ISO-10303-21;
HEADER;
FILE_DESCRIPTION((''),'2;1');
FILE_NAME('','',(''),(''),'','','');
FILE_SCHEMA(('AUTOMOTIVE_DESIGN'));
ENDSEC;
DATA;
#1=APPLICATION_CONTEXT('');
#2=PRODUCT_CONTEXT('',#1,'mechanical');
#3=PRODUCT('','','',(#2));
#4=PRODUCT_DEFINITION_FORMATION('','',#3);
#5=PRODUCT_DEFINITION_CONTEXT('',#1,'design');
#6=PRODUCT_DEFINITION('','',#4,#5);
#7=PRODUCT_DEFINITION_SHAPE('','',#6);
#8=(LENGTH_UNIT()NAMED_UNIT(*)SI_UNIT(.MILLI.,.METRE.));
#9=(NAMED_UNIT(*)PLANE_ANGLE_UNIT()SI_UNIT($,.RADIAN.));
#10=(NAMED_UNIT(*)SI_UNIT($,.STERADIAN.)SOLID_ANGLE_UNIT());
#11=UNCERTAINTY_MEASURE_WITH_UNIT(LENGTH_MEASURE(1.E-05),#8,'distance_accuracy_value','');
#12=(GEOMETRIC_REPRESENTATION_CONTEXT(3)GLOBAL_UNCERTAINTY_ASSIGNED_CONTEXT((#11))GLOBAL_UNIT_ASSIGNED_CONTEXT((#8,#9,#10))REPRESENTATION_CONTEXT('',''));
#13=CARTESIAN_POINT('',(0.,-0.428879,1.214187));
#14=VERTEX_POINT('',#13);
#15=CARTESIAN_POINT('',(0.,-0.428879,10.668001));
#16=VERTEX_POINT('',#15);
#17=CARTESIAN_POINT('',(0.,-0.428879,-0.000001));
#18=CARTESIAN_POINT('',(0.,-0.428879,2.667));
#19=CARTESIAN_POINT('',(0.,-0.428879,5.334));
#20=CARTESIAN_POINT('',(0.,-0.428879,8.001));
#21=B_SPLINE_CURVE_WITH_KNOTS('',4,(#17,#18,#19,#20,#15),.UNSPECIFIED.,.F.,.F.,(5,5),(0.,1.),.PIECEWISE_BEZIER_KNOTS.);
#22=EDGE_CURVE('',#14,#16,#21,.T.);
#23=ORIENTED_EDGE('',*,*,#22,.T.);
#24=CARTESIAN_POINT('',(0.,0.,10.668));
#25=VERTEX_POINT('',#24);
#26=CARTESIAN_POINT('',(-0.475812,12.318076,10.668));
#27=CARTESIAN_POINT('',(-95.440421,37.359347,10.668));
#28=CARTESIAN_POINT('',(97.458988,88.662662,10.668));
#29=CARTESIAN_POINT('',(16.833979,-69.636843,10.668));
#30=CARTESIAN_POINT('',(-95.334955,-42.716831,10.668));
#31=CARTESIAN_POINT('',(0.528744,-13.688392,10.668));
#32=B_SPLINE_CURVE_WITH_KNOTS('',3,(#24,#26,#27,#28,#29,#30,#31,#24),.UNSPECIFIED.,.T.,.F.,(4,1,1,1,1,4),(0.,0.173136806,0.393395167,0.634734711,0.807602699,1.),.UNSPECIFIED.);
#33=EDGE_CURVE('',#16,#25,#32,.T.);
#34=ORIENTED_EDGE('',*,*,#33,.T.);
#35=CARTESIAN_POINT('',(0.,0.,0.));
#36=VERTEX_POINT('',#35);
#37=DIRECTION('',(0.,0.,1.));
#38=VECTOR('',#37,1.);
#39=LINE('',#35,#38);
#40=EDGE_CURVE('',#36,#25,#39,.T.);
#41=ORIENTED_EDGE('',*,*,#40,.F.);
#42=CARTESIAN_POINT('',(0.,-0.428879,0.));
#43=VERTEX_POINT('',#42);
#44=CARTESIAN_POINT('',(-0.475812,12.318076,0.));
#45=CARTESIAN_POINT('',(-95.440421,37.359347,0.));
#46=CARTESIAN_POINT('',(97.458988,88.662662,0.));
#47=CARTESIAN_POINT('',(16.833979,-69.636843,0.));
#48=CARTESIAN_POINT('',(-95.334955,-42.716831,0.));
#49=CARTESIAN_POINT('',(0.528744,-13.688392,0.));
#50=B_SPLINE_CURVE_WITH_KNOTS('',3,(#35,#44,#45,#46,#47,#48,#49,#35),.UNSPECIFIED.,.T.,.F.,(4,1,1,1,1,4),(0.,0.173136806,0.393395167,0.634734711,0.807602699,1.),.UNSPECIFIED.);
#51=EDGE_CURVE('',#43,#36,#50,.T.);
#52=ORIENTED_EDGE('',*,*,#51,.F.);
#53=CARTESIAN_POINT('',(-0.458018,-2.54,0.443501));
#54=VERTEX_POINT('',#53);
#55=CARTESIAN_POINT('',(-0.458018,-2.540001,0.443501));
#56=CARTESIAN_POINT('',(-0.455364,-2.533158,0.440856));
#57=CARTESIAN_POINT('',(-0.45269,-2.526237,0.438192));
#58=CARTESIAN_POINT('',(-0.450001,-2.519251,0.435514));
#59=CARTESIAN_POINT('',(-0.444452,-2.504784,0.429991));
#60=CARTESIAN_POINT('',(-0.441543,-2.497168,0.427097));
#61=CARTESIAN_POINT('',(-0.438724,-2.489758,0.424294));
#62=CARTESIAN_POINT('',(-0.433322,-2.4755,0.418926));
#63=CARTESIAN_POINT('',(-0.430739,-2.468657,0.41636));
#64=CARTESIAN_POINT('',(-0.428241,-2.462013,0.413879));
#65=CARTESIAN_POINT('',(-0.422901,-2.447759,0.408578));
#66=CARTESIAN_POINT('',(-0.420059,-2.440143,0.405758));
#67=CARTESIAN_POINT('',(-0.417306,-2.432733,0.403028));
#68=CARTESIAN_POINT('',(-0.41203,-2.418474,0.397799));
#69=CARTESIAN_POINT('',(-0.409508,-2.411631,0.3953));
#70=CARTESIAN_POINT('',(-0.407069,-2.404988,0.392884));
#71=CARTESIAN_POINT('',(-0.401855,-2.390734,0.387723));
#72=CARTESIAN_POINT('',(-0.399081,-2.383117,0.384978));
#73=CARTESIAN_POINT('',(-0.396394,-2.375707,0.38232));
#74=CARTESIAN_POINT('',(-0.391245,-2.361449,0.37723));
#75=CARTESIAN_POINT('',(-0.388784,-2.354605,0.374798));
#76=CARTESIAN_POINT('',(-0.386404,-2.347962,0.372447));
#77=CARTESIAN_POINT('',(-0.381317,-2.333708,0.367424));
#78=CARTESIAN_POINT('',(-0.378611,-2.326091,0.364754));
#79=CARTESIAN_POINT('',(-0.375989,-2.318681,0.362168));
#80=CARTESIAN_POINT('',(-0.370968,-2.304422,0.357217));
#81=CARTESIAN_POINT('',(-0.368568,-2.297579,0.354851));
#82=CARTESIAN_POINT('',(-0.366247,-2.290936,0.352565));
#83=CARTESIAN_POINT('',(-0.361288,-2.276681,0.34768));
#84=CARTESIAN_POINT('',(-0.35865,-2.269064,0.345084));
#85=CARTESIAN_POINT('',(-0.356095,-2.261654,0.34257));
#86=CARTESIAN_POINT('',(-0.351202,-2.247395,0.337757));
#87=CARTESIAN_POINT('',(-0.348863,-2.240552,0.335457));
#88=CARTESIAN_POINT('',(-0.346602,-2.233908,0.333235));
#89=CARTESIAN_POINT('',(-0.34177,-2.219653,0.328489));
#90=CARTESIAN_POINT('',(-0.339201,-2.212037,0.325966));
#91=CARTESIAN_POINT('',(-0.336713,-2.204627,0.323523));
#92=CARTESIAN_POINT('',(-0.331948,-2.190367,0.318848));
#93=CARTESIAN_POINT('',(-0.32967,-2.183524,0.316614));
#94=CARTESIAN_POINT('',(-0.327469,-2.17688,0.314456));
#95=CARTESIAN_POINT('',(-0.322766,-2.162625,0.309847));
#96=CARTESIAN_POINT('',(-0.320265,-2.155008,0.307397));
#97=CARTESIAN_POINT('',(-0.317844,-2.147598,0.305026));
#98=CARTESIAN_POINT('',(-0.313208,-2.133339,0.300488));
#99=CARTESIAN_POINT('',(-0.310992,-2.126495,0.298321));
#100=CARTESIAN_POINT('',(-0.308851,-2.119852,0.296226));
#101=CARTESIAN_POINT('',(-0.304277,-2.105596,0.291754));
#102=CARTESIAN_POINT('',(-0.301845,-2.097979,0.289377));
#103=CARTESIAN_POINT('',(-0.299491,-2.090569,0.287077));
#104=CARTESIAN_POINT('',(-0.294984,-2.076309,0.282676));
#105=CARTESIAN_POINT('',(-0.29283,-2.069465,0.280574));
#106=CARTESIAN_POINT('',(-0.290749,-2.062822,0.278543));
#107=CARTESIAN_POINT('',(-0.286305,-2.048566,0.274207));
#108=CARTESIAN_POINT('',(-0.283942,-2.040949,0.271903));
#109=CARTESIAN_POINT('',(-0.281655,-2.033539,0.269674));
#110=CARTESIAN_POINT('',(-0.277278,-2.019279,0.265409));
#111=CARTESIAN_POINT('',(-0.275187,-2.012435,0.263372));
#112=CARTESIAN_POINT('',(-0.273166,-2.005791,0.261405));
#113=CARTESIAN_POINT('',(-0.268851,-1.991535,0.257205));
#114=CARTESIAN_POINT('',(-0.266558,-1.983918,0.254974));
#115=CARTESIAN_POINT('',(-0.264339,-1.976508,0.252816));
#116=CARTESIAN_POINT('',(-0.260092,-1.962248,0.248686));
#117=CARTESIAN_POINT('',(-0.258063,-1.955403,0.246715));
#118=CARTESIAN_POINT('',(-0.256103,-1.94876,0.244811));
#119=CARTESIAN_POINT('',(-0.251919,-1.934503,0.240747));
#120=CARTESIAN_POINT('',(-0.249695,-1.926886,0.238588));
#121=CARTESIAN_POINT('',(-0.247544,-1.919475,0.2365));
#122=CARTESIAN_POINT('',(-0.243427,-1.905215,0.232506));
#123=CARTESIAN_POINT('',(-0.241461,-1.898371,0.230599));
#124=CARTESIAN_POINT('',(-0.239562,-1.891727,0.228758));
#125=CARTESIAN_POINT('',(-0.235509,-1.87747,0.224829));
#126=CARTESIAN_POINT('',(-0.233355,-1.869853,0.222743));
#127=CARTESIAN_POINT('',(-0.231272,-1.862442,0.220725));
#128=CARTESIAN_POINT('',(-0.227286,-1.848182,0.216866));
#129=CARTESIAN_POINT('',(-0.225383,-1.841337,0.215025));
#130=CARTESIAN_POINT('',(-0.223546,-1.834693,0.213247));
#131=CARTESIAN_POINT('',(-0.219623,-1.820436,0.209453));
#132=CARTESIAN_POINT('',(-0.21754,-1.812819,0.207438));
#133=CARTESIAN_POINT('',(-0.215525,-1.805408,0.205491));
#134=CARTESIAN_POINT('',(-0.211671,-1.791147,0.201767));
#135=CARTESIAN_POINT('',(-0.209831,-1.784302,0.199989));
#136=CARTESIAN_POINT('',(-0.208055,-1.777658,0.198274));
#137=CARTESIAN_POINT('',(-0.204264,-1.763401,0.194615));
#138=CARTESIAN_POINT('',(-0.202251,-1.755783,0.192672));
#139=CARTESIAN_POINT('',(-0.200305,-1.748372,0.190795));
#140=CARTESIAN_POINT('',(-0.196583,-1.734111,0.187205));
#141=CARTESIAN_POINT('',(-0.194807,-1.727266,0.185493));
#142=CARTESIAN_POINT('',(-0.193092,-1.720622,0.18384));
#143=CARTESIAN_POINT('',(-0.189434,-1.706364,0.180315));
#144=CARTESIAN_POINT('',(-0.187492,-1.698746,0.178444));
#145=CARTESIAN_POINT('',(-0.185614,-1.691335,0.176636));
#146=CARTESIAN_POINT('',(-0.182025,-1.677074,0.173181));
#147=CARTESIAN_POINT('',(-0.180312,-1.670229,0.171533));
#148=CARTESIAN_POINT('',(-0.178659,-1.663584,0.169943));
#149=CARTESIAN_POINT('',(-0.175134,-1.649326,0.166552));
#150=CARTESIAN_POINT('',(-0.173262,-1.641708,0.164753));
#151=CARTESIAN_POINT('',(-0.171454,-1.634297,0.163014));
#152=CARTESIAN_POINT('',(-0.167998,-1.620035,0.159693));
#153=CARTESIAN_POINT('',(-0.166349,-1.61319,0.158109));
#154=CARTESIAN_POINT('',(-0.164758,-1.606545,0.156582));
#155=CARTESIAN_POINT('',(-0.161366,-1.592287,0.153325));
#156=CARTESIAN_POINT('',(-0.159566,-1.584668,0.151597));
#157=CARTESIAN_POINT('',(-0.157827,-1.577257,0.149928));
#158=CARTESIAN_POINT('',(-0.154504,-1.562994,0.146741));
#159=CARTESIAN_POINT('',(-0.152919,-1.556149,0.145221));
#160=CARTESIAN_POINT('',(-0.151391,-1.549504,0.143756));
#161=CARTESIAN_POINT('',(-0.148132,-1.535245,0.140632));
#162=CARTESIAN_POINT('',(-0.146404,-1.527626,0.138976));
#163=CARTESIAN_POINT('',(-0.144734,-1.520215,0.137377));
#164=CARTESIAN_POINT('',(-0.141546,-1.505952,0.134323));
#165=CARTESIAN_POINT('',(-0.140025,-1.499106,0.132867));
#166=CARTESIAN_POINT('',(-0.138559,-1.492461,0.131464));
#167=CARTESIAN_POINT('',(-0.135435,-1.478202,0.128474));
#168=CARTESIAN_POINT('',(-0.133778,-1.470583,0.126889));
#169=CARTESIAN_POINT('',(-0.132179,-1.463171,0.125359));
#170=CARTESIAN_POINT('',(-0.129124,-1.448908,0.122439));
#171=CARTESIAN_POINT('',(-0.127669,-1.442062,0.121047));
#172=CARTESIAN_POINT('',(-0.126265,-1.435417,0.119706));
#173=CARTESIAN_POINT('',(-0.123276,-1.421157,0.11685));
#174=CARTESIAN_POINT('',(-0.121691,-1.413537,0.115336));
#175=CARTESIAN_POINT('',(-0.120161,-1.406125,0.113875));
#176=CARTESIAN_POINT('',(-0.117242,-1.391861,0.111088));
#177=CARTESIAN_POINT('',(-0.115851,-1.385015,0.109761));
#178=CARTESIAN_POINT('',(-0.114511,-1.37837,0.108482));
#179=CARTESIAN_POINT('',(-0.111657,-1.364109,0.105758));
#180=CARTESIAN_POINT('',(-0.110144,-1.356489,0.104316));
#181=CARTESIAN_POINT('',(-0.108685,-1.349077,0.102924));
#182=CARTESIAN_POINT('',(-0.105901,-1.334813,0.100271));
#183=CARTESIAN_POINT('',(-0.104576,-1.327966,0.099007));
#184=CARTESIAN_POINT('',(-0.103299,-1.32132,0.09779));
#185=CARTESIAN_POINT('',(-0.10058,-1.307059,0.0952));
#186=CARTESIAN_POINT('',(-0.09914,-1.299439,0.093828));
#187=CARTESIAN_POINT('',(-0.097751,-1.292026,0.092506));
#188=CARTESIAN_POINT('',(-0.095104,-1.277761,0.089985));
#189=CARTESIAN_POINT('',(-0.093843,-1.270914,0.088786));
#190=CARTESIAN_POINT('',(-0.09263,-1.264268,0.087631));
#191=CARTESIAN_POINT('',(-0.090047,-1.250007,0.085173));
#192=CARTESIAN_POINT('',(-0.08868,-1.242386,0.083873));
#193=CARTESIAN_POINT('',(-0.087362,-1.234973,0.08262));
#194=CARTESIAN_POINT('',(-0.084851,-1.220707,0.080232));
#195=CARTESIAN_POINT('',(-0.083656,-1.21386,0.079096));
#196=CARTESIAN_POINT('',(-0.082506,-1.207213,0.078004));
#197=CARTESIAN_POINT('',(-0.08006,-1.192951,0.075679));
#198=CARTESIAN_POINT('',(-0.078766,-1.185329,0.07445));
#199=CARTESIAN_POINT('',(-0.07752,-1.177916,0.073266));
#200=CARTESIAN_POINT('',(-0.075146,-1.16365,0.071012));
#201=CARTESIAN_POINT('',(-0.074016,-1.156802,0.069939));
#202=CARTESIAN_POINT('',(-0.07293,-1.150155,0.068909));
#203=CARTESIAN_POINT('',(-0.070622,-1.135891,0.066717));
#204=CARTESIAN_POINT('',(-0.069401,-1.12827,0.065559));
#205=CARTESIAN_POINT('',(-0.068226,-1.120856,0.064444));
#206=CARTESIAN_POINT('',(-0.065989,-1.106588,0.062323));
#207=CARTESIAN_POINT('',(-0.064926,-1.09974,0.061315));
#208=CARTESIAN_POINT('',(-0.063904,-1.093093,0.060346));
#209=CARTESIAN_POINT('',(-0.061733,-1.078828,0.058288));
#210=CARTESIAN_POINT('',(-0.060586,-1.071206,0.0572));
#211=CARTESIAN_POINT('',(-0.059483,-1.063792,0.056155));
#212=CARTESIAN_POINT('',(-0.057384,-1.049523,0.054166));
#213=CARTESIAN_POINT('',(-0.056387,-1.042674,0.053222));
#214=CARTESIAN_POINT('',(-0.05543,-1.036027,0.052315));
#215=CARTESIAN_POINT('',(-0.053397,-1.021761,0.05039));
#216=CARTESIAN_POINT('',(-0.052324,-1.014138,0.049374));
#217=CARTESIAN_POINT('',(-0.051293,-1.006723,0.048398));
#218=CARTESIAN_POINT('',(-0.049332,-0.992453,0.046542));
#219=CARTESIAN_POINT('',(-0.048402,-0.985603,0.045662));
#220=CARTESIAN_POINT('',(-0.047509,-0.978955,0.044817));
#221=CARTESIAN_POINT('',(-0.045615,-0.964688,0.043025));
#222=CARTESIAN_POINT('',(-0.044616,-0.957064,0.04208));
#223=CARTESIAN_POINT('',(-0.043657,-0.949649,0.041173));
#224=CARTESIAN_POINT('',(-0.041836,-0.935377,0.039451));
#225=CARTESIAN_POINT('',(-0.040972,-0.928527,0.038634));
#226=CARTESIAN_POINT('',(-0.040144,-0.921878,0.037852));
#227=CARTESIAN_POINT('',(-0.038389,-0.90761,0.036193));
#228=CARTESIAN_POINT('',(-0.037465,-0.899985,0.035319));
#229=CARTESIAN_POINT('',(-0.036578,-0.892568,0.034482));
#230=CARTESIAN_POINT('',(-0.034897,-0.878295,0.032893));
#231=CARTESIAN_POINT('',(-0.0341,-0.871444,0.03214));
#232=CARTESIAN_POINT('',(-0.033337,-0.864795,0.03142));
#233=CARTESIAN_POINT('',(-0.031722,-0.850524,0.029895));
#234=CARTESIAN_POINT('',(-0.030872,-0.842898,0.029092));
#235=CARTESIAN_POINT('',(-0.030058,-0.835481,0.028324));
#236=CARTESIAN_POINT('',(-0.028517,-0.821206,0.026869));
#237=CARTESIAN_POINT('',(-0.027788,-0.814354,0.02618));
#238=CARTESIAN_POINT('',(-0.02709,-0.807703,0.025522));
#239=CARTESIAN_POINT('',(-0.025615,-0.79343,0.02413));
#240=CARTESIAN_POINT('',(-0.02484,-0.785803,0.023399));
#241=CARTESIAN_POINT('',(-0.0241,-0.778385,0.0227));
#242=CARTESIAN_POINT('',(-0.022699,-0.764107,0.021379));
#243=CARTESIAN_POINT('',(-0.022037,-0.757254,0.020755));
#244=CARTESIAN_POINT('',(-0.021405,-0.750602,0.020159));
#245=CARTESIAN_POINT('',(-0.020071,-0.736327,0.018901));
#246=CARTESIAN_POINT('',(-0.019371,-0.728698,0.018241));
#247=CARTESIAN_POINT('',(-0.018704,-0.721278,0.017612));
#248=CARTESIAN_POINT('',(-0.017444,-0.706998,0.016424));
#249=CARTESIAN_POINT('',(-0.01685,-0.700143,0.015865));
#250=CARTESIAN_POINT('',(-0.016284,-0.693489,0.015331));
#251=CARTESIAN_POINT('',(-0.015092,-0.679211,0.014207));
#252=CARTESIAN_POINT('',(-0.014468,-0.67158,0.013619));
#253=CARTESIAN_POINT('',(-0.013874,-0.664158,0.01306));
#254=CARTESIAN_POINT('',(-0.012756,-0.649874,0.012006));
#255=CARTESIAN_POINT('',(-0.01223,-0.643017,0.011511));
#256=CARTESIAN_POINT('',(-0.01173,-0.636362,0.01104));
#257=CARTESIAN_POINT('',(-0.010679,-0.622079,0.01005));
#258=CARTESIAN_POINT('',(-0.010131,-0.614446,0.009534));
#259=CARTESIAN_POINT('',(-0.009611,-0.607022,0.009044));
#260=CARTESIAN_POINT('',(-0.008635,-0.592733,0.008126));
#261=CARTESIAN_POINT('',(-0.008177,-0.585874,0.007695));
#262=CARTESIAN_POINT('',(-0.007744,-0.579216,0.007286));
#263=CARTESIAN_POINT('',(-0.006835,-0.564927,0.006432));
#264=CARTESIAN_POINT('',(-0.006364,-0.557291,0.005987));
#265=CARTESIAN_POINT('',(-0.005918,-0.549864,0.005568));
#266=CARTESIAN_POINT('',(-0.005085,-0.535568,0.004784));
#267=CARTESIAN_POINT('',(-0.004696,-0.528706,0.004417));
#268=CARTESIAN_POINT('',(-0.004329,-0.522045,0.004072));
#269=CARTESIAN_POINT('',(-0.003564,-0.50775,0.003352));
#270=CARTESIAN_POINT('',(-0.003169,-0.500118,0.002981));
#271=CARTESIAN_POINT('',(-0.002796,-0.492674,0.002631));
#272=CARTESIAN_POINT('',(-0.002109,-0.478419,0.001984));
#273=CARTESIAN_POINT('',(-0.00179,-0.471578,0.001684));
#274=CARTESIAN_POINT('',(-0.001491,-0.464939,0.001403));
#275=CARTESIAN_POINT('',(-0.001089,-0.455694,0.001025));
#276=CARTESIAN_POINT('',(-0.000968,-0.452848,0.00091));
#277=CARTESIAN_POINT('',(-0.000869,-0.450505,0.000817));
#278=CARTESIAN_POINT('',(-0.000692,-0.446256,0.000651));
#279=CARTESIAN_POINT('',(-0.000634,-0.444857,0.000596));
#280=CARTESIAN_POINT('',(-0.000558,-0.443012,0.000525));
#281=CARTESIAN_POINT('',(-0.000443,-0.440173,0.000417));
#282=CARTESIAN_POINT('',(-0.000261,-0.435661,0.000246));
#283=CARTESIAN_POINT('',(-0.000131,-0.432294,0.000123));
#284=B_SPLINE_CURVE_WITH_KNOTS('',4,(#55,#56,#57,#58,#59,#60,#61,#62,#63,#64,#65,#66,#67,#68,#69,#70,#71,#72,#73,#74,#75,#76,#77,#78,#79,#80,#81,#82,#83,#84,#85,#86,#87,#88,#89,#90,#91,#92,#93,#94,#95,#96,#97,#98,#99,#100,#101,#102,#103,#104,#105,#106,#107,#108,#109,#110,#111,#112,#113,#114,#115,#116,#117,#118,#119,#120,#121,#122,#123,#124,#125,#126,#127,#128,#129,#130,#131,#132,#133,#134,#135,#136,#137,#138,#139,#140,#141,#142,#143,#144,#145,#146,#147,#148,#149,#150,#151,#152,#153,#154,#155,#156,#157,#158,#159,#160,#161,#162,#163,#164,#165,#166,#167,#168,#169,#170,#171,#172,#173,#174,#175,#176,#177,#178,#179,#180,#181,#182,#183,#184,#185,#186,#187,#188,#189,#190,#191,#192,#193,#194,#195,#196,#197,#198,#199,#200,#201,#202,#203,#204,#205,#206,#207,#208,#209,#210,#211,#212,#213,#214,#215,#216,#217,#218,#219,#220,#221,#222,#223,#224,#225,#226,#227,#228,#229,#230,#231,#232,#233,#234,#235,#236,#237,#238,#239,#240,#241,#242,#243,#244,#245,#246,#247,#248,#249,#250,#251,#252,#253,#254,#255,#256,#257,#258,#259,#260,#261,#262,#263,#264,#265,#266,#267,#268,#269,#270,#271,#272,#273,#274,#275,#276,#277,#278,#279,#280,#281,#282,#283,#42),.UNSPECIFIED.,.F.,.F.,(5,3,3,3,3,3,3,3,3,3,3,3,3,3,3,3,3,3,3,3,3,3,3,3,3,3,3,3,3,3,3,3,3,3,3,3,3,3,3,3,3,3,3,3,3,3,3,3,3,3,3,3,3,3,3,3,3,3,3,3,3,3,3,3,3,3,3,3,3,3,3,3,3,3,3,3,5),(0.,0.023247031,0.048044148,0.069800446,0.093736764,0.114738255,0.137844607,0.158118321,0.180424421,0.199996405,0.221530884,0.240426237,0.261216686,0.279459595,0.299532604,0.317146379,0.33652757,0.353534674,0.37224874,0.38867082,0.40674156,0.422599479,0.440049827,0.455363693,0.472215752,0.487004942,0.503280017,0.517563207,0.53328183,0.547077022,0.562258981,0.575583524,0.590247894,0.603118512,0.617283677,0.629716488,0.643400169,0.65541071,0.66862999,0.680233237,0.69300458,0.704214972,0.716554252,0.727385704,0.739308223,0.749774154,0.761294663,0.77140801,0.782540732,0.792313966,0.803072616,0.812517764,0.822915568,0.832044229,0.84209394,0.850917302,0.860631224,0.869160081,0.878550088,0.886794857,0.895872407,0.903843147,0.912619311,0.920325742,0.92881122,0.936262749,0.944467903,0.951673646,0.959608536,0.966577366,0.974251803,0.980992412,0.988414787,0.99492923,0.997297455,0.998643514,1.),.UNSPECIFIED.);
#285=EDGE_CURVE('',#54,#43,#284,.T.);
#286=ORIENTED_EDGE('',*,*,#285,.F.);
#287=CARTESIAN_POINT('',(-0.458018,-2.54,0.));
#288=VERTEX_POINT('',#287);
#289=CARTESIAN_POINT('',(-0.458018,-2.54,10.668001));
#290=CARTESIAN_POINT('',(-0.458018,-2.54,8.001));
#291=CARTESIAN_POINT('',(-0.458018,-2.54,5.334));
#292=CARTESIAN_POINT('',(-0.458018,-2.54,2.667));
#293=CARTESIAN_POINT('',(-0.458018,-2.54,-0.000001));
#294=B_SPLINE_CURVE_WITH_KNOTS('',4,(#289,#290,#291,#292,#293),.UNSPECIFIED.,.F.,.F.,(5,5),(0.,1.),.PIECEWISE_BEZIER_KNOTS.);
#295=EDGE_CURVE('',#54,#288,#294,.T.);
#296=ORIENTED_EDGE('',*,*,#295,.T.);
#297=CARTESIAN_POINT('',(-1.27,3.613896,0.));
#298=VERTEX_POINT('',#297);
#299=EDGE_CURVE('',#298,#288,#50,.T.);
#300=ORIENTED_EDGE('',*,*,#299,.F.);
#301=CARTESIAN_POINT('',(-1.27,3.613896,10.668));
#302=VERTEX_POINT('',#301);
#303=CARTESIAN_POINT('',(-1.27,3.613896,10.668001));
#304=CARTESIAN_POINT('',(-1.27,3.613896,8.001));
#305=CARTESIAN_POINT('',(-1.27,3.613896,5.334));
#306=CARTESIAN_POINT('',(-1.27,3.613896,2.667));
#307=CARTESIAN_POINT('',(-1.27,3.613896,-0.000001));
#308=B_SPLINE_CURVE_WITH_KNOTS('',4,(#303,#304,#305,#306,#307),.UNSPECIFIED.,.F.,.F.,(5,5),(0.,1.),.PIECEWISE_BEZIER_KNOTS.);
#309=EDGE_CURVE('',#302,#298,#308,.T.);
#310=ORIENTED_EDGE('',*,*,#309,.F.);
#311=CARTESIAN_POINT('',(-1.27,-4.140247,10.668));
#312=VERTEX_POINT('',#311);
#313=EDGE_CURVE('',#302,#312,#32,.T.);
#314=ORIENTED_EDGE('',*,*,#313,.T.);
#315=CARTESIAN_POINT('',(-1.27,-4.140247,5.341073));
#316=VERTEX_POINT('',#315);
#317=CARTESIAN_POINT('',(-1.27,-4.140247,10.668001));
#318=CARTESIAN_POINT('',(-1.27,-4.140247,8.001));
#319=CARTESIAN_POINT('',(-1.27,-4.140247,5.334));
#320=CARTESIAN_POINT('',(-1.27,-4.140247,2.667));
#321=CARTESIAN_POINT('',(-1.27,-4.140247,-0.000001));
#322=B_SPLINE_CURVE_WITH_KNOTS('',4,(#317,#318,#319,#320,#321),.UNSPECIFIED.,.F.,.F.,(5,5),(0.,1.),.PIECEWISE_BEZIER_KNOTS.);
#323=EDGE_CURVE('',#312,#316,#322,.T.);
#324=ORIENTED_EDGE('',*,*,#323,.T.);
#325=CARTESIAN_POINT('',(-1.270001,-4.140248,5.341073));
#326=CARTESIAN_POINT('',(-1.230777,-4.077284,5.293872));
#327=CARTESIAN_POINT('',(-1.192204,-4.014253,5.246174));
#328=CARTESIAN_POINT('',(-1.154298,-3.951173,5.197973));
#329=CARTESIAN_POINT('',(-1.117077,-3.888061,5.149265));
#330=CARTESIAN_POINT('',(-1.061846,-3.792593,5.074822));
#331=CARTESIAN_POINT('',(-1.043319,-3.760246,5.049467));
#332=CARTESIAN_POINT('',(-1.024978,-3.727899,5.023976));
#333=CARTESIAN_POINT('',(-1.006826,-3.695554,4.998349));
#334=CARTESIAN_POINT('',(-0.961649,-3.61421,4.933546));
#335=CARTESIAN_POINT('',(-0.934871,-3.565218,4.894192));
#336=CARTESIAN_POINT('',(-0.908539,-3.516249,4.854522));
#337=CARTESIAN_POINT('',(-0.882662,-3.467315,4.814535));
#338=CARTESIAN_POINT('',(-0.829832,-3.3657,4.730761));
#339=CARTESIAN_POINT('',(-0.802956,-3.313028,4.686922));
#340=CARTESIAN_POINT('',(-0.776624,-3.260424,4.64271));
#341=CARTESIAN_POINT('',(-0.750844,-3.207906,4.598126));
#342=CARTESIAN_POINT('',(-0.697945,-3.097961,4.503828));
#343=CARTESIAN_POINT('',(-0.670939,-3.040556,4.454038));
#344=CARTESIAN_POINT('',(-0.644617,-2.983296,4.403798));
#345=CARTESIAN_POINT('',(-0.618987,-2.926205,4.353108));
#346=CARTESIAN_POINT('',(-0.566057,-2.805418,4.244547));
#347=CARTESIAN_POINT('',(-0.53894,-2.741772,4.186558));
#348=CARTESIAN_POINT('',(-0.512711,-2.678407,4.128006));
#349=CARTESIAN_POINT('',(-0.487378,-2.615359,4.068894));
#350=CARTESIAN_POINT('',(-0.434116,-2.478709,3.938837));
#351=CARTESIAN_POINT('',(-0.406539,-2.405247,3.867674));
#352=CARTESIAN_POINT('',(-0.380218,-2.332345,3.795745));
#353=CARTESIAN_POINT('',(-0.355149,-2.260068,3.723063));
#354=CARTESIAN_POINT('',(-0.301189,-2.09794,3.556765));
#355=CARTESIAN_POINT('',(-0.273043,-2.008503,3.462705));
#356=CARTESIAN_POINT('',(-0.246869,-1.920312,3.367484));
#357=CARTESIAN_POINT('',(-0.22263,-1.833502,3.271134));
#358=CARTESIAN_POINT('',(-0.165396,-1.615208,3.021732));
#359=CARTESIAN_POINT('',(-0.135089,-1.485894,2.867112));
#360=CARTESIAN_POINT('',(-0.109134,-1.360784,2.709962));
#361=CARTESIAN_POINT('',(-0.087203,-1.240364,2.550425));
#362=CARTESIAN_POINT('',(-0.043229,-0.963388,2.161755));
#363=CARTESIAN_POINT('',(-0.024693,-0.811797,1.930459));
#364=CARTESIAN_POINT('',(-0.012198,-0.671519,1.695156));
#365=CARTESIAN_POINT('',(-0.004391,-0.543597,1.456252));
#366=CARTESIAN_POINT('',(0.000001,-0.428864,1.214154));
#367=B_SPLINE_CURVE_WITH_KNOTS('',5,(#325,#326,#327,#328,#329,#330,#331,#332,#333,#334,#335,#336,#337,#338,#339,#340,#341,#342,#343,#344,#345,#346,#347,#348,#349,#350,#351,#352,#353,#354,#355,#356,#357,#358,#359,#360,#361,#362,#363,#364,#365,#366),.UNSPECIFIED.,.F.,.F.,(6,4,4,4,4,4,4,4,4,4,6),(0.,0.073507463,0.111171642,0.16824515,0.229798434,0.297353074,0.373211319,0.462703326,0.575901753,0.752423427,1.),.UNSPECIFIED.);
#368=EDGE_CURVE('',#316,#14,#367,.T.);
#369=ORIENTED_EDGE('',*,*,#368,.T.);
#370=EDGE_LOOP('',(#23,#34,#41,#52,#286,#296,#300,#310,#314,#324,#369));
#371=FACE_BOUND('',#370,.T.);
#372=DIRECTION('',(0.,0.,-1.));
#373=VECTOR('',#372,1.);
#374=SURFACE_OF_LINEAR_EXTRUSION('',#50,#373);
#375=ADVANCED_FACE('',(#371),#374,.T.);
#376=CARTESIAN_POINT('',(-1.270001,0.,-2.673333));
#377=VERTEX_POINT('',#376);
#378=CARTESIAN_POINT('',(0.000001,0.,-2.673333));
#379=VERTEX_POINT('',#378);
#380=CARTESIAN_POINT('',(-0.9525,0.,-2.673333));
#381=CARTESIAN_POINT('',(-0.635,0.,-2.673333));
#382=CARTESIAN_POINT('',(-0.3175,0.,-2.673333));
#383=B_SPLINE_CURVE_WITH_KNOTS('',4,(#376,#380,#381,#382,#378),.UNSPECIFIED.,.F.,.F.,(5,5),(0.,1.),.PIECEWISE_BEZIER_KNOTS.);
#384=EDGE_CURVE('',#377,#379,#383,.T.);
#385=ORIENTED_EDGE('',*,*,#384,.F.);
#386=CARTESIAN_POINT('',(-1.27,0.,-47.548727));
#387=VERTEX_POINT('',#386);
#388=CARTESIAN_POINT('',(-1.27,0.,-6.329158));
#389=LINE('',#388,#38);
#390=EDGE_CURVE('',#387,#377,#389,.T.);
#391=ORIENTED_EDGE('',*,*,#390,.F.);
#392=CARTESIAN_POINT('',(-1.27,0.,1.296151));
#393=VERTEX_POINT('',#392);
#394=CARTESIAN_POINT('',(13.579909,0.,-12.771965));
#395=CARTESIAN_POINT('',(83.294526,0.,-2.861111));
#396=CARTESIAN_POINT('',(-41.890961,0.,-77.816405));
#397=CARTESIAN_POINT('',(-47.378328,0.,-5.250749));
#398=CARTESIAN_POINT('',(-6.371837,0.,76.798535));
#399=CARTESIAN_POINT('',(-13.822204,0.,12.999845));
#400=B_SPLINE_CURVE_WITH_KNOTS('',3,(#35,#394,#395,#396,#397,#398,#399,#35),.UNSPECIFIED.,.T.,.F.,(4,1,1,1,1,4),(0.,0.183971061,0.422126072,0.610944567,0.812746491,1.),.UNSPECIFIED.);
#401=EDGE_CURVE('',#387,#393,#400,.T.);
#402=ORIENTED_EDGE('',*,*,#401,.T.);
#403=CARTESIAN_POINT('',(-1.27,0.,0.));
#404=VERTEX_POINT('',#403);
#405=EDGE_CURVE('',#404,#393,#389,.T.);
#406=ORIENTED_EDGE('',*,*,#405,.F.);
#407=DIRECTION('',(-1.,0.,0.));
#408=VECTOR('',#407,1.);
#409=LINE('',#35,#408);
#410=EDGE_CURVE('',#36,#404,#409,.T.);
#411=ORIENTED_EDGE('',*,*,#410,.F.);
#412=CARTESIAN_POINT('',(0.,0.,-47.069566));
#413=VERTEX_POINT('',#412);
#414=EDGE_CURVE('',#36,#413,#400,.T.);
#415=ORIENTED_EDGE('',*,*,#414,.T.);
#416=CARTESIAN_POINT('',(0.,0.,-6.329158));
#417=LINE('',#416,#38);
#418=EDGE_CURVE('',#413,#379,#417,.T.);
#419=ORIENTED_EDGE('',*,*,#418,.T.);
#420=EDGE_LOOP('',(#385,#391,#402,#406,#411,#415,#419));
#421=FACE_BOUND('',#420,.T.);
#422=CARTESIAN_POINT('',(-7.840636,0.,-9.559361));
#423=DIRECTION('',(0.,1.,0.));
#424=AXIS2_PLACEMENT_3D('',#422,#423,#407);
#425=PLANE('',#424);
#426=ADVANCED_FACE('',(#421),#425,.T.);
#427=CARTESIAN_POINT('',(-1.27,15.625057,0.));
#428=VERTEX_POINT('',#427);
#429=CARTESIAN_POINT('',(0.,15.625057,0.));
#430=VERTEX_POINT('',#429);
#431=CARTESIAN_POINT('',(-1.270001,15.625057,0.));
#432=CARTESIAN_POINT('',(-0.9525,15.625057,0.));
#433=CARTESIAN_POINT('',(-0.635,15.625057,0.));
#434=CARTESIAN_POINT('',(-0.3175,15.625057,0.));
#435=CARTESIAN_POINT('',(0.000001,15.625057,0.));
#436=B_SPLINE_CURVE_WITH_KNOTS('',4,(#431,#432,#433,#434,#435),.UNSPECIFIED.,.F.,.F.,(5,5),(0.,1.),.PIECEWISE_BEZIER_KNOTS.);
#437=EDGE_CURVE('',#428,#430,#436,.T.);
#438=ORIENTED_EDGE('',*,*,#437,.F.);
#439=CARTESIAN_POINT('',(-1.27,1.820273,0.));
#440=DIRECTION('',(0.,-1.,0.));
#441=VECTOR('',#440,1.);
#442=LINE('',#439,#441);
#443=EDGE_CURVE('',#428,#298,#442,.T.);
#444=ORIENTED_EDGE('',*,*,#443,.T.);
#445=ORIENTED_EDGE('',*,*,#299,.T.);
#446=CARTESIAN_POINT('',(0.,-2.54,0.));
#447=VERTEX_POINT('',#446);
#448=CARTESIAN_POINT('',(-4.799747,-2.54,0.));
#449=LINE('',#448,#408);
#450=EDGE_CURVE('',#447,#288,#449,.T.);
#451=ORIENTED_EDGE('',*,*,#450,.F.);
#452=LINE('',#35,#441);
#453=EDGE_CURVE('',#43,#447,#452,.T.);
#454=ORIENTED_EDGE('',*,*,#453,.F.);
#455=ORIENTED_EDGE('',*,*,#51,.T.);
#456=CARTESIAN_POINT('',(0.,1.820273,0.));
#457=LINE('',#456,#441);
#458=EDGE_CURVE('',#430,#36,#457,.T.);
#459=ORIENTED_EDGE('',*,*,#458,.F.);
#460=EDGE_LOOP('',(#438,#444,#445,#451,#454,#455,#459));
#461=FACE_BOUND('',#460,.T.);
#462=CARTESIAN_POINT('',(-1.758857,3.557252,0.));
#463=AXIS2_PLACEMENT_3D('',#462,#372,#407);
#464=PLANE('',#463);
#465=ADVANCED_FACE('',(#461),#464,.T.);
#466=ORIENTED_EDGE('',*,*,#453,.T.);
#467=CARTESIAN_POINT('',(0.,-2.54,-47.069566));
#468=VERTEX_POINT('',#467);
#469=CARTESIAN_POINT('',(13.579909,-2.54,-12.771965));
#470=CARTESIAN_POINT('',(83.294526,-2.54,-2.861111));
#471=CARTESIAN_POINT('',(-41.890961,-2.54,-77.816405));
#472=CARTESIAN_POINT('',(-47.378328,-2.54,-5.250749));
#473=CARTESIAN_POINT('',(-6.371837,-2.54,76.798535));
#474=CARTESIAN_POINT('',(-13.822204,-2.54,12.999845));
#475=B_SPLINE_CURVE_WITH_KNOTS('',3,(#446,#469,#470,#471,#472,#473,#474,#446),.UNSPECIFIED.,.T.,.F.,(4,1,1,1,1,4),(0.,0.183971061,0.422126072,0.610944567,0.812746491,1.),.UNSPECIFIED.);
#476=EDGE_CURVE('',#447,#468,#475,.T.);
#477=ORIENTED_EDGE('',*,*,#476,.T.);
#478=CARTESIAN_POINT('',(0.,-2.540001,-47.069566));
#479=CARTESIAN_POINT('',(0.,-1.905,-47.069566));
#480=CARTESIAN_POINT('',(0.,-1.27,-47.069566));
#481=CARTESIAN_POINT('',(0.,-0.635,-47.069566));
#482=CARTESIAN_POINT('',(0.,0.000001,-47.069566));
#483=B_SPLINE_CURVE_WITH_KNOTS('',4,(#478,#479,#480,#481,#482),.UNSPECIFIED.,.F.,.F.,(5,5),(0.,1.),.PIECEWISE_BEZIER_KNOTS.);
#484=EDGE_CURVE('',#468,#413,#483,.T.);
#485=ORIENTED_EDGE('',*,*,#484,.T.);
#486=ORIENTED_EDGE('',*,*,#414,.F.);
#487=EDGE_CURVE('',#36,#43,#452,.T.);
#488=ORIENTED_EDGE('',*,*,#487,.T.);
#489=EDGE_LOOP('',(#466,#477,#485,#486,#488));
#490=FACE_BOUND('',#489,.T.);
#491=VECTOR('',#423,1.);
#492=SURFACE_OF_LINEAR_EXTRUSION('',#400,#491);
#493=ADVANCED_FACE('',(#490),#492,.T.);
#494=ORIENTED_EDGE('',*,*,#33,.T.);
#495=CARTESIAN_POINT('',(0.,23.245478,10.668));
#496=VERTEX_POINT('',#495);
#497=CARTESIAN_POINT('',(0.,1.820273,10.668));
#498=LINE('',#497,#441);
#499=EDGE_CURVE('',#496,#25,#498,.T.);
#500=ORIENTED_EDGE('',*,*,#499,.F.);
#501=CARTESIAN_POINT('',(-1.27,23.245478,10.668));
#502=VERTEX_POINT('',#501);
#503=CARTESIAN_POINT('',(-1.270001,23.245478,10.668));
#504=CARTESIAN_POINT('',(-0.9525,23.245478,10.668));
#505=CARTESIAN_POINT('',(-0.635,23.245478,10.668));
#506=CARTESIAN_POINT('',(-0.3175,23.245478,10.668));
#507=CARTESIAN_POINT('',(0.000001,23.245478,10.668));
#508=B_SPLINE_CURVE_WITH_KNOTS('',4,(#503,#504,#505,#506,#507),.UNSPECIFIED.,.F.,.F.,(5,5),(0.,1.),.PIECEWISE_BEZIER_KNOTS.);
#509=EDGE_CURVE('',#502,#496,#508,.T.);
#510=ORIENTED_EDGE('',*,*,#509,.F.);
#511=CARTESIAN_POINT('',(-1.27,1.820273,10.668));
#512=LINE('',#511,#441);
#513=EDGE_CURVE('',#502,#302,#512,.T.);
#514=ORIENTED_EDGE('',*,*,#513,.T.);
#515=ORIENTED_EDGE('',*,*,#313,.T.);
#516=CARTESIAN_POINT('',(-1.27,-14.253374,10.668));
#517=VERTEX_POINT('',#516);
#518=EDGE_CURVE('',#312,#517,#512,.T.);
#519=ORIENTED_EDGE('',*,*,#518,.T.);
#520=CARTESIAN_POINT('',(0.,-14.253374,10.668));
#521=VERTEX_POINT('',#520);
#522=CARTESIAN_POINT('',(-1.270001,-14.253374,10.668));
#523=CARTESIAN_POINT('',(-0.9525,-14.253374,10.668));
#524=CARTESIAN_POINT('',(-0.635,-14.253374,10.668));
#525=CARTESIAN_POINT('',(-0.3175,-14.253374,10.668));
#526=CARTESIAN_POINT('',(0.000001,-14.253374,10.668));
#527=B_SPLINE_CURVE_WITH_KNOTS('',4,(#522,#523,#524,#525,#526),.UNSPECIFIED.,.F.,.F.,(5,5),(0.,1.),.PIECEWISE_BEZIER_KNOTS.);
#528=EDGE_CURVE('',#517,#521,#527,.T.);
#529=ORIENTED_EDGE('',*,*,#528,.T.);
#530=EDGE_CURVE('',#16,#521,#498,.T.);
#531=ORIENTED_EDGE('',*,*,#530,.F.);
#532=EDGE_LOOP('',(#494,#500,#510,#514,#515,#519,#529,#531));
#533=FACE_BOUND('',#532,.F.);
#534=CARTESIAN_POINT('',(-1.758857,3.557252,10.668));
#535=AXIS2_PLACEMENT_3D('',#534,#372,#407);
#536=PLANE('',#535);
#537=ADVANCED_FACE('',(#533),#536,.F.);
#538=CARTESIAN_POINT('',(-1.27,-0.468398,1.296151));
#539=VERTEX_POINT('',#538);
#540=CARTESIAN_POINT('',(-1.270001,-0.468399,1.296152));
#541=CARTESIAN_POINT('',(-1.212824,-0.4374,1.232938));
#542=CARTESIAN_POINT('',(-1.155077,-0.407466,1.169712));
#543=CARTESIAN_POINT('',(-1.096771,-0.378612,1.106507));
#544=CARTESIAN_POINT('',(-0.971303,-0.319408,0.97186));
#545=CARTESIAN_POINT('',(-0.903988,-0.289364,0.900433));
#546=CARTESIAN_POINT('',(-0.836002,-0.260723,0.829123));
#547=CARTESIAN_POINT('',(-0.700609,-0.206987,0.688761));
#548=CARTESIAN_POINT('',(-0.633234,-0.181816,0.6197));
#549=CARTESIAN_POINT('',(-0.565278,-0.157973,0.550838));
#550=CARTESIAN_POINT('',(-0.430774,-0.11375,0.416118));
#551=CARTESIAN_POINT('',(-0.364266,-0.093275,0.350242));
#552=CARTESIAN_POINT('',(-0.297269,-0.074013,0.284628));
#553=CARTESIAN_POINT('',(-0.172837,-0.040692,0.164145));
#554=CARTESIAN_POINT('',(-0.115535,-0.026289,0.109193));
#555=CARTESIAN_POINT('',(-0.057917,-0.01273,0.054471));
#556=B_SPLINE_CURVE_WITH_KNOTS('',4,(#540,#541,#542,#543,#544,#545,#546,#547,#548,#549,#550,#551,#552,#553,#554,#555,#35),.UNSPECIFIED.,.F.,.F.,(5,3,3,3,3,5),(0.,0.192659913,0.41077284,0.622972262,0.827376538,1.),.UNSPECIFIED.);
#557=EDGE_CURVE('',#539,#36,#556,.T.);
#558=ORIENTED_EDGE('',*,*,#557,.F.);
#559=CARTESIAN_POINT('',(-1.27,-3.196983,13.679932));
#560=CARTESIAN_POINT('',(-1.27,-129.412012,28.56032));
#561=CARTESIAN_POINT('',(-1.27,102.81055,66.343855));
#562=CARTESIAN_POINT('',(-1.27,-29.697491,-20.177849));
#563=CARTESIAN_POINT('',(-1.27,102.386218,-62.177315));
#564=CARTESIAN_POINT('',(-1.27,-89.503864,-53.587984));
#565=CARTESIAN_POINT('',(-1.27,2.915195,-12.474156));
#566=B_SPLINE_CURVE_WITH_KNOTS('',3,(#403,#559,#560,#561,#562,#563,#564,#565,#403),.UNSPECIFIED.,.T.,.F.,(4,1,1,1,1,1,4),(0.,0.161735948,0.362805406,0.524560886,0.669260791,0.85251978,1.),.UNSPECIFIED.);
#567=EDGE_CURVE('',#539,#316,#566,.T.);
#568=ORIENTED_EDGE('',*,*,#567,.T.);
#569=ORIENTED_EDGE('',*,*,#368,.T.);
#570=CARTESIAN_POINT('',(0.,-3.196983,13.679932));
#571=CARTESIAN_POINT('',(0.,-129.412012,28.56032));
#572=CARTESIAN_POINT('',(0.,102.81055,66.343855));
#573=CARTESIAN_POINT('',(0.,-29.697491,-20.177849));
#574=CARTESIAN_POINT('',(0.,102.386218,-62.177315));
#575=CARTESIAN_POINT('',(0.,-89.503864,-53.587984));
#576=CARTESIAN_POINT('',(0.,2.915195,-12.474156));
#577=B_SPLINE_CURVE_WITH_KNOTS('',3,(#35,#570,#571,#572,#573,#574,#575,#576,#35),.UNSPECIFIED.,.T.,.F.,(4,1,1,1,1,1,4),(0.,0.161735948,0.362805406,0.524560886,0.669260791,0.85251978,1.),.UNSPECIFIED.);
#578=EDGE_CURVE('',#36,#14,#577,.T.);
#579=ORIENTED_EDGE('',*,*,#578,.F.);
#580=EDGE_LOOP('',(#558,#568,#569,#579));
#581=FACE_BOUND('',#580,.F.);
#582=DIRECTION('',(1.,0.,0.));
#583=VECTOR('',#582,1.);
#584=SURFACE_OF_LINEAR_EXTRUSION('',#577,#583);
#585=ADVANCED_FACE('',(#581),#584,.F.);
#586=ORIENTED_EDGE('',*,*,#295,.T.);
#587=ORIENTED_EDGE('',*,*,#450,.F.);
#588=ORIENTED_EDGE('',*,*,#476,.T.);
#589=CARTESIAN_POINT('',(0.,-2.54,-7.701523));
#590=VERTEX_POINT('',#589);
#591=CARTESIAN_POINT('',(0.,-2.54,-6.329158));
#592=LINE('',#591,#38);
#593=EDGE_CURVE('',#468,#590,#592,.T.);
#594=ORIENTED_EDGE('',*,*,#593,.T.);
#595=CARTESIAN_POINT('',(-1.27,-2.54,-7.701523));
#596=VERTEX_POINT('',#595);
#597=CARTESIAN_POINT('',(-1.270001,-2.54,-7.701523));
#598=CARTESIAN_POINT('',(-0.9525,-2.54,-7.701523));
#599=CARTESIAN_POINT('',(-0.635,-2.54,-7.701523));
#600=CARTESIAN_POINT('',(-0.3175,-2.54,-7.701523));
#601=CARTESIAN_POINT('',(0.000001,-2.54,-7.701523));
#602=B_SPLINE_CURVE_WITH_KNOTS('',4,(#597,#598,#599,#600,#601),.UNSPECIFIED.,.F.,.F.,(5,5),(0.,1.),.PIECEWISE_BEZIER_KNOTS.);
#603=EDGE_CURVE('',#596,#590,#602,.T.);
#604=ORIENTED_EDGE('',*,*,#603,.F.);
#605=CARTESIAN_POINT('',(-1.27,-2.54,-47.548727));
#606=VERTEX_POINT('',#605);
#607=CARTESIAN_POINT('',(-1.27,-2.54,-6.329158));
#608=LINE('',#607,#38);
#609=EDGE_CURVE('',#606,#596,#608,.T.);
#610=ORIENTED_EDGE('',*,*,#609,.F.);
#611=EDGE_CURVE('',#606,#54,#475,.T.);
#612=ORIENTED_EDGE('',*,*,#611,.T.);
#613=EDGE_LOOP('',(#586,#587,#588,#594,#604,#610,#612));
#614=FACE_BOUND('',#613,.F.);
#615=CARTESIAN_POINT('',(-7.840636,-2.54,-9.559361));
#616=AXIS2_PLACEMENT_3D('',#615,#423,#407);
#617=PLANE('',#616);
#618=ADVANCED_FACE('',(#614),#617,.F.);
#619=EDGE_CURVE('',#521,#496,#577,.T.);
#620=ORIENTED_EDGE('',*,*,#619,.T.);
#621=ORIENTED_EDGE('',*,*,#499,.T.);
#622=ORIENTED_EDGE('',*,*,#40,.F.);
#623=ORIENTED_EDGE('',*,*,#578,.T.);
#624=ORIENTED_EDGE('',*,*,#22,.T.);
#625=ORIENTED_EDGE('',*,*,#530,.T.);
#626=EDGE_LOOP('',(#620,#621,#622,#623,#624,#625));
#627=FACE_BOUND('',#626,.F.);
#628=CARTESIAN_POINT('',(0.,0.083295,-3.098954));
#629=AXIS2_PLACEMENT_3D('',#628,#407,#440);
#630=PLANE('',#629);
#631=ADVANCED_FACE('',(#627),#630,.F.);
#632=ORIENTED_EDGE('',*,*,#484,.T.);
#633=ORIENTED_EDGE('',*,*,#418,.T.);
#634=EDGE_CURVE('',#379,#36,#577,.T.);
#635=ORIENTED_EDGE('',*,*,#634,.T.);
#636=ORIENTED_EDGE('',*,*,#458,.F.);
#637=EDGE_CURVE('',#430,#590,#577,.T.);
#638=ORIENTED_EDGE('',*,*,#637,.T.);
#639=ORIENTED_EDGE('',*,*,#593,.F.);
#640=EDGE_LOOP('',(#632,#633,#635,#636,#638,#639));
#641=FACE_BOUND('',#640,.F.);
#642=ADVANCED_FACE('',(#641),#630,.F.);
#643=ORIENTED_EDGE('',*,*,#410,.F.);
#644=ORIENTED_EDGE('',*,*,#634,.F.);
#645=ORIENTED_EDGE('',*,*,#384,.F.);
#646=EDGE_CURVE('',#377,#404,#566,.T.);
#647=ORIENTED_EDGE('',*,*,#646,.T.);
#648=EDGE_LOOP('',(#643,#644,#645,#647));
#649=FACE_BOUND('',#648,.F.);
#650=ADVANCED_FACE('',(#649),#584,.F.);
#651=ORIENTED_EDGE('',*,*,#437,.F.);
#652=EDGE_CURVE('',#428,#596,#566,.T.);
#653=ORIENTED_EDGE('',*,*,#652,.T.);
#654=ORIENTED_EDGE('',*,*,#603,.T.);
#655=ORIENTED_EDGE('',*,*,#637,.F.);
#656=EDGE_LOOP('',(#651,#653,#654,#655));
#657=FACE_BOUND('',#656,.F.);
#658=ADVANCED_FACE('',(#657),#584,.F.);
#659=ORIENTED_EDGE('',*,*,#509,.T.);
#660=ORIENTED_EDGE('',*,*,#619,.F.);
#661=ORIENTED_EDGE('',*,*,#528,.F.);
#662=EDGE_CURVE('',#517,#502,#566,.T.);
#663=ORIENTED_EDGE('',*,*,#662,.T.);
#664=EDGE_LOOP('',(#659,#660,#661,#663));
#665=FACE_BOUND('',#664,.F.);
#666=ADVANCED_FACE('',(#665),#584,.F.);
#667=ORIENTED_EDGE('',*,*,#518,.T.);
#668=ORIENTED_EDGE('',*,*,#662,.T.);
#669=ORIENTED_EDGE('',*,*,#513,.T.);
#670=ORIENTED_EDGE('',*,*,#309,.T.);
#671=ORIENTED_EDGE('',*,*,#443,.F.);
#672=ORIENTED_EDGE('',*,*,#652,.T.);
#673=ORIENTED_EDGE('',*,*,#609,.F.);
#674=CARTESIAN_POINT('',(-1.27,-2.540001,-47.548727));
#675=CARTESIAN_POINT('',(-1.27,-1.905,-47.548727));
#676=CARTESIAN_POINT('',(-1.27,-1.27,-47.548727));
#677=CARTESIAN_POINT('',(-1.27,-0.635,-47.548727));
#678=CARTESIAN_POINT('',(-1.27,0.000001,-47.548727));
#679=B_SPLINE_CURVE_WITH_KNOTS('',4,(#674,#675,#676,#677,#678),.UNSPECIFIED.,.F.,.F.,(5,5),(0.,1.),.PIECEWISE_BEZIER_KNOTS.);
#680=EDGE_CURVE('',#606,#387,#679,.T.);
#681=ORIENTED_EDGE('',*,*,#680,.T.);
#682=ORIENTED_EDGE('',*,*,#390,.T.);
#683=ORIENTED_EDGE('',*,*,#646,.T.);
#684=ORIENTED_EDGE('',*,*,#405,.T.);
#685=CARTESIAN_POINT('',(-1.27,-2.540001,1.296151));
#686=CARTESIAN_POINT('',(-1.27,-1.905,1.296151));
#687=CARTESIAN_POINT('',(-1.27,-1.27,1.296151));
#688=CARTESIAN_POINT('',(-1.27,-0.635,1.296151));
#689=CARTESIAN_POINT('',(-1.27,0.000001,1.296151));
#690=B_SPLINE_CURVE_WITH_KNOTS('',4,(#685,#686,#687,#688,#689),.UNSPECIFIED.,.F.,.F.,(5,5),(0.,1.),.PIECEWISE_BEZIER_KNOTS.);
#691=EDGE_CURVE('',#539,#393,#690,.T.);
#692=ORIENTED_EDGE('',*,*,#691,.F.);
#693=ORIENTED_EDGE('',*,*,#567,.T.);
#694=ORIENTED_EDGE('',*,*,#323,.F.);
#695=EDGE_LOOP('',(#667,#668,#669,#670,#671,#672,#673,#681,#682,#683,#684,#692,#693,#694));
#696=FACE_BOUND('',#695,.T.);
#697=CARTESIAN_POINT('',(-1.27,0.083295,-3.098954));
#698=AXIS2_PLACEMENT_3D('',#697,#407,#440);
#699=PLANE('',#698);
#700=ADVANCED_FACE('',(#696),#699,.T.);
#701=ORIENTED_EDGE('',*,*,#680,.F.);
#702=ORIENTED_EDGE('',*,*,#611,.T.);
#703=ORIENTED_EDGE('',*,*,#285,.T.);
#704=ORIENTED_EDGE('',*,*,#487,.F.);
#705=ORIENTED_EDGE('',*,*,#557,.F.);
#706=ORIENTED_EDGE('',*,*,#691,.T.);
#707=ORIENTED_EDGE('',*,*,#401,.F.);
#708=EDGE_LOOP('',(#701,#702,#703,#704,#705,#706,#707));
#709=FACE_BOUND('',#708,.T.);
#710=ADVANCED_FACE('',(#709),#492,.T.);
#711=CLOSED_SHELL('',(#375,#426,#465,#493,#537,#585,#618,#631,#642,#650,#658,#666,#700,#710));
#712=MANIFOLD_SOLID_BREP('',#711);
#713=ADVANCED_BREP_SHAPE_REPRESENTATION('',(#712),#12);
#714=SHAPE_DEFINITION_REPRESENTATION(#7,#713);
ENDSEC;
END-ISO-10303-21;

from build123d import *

# Parameters (mm, degrees)
F1_DEPTH = 2.54
F3_DEPTH = 1.27
F5_DEPTH = 10.668


with BuildPart() as f1:
    # F0 (on Front) → F1 (new body)
    with BuildSketch(Plane.XZ):
        with BuildLine():
            add(Edge.make_bspline(
                [(0, 0), (13.5799085576, -12.7719651286), (83.2945256343, -2.8611107608), (-41.8909609939, -77.8164047525), (-47.3783280998, -5.2507494197), (-6.3718372648, 76.7985348983), (-13.8222039286, 12.9998450158), (0, 0)],
                knots=[0, 0, 0, 0, 0.1839710611, 0.4221260721, 0.6109445674, 0.8127464914, 1, 1, 1, 1], degree=3))
        make_face()
    extrude(amount=F1_DEPTH)

    # F2 (on Right) → F3 (join)
    with BuildSketch(Plane.YZ):
        with BuildLine():
            add(Edge.make_bspline(
                [(0, 0), (-3.1969829913, 13.6799323186), (-129.4120120665, 28.5603199257), (102.810549989, 66.3438546679), (-29.6974912181, -20.1778485922), (102.3862177368, -62.1773154488), (-89.5038642755, -53.5879835274), (2.9151945639, -12.4741559271), (0, 0)],
                knots=[0, 0, 0, 0, 0.161735948, 0.3628054062, 0.5245608856, 0.6692607908, 0.8525197795, 1, 1, 1, 1], degree=3))
        make_face()
    extrude(amount=-F3_DEPTH)

    # F4 (on Top) → F5 (join)
    with BuildSketch(Plane.XY):
        with BuildLine():
            add(Edge.make_bspline(
                [(0, 0), (-0.4758122167, 12.3180757611), (-95.4404210722, 37.3593466098), (97.4589879648, 88.662662124), (16.8339785627, -69.6368429658), (-95.3349548935, -42.7168305179), (0.5287436469, -13.6883923363), (0, 0)],
                knots=[0, 0, 0, 0, 0.1731368062, 0.393395167, 0.6347347114, 0.8076026989, 1, 1, 1, 1], degree=3))
        make_face()
    extrude(amount=F5_DEPTH)


solid = f1.part
